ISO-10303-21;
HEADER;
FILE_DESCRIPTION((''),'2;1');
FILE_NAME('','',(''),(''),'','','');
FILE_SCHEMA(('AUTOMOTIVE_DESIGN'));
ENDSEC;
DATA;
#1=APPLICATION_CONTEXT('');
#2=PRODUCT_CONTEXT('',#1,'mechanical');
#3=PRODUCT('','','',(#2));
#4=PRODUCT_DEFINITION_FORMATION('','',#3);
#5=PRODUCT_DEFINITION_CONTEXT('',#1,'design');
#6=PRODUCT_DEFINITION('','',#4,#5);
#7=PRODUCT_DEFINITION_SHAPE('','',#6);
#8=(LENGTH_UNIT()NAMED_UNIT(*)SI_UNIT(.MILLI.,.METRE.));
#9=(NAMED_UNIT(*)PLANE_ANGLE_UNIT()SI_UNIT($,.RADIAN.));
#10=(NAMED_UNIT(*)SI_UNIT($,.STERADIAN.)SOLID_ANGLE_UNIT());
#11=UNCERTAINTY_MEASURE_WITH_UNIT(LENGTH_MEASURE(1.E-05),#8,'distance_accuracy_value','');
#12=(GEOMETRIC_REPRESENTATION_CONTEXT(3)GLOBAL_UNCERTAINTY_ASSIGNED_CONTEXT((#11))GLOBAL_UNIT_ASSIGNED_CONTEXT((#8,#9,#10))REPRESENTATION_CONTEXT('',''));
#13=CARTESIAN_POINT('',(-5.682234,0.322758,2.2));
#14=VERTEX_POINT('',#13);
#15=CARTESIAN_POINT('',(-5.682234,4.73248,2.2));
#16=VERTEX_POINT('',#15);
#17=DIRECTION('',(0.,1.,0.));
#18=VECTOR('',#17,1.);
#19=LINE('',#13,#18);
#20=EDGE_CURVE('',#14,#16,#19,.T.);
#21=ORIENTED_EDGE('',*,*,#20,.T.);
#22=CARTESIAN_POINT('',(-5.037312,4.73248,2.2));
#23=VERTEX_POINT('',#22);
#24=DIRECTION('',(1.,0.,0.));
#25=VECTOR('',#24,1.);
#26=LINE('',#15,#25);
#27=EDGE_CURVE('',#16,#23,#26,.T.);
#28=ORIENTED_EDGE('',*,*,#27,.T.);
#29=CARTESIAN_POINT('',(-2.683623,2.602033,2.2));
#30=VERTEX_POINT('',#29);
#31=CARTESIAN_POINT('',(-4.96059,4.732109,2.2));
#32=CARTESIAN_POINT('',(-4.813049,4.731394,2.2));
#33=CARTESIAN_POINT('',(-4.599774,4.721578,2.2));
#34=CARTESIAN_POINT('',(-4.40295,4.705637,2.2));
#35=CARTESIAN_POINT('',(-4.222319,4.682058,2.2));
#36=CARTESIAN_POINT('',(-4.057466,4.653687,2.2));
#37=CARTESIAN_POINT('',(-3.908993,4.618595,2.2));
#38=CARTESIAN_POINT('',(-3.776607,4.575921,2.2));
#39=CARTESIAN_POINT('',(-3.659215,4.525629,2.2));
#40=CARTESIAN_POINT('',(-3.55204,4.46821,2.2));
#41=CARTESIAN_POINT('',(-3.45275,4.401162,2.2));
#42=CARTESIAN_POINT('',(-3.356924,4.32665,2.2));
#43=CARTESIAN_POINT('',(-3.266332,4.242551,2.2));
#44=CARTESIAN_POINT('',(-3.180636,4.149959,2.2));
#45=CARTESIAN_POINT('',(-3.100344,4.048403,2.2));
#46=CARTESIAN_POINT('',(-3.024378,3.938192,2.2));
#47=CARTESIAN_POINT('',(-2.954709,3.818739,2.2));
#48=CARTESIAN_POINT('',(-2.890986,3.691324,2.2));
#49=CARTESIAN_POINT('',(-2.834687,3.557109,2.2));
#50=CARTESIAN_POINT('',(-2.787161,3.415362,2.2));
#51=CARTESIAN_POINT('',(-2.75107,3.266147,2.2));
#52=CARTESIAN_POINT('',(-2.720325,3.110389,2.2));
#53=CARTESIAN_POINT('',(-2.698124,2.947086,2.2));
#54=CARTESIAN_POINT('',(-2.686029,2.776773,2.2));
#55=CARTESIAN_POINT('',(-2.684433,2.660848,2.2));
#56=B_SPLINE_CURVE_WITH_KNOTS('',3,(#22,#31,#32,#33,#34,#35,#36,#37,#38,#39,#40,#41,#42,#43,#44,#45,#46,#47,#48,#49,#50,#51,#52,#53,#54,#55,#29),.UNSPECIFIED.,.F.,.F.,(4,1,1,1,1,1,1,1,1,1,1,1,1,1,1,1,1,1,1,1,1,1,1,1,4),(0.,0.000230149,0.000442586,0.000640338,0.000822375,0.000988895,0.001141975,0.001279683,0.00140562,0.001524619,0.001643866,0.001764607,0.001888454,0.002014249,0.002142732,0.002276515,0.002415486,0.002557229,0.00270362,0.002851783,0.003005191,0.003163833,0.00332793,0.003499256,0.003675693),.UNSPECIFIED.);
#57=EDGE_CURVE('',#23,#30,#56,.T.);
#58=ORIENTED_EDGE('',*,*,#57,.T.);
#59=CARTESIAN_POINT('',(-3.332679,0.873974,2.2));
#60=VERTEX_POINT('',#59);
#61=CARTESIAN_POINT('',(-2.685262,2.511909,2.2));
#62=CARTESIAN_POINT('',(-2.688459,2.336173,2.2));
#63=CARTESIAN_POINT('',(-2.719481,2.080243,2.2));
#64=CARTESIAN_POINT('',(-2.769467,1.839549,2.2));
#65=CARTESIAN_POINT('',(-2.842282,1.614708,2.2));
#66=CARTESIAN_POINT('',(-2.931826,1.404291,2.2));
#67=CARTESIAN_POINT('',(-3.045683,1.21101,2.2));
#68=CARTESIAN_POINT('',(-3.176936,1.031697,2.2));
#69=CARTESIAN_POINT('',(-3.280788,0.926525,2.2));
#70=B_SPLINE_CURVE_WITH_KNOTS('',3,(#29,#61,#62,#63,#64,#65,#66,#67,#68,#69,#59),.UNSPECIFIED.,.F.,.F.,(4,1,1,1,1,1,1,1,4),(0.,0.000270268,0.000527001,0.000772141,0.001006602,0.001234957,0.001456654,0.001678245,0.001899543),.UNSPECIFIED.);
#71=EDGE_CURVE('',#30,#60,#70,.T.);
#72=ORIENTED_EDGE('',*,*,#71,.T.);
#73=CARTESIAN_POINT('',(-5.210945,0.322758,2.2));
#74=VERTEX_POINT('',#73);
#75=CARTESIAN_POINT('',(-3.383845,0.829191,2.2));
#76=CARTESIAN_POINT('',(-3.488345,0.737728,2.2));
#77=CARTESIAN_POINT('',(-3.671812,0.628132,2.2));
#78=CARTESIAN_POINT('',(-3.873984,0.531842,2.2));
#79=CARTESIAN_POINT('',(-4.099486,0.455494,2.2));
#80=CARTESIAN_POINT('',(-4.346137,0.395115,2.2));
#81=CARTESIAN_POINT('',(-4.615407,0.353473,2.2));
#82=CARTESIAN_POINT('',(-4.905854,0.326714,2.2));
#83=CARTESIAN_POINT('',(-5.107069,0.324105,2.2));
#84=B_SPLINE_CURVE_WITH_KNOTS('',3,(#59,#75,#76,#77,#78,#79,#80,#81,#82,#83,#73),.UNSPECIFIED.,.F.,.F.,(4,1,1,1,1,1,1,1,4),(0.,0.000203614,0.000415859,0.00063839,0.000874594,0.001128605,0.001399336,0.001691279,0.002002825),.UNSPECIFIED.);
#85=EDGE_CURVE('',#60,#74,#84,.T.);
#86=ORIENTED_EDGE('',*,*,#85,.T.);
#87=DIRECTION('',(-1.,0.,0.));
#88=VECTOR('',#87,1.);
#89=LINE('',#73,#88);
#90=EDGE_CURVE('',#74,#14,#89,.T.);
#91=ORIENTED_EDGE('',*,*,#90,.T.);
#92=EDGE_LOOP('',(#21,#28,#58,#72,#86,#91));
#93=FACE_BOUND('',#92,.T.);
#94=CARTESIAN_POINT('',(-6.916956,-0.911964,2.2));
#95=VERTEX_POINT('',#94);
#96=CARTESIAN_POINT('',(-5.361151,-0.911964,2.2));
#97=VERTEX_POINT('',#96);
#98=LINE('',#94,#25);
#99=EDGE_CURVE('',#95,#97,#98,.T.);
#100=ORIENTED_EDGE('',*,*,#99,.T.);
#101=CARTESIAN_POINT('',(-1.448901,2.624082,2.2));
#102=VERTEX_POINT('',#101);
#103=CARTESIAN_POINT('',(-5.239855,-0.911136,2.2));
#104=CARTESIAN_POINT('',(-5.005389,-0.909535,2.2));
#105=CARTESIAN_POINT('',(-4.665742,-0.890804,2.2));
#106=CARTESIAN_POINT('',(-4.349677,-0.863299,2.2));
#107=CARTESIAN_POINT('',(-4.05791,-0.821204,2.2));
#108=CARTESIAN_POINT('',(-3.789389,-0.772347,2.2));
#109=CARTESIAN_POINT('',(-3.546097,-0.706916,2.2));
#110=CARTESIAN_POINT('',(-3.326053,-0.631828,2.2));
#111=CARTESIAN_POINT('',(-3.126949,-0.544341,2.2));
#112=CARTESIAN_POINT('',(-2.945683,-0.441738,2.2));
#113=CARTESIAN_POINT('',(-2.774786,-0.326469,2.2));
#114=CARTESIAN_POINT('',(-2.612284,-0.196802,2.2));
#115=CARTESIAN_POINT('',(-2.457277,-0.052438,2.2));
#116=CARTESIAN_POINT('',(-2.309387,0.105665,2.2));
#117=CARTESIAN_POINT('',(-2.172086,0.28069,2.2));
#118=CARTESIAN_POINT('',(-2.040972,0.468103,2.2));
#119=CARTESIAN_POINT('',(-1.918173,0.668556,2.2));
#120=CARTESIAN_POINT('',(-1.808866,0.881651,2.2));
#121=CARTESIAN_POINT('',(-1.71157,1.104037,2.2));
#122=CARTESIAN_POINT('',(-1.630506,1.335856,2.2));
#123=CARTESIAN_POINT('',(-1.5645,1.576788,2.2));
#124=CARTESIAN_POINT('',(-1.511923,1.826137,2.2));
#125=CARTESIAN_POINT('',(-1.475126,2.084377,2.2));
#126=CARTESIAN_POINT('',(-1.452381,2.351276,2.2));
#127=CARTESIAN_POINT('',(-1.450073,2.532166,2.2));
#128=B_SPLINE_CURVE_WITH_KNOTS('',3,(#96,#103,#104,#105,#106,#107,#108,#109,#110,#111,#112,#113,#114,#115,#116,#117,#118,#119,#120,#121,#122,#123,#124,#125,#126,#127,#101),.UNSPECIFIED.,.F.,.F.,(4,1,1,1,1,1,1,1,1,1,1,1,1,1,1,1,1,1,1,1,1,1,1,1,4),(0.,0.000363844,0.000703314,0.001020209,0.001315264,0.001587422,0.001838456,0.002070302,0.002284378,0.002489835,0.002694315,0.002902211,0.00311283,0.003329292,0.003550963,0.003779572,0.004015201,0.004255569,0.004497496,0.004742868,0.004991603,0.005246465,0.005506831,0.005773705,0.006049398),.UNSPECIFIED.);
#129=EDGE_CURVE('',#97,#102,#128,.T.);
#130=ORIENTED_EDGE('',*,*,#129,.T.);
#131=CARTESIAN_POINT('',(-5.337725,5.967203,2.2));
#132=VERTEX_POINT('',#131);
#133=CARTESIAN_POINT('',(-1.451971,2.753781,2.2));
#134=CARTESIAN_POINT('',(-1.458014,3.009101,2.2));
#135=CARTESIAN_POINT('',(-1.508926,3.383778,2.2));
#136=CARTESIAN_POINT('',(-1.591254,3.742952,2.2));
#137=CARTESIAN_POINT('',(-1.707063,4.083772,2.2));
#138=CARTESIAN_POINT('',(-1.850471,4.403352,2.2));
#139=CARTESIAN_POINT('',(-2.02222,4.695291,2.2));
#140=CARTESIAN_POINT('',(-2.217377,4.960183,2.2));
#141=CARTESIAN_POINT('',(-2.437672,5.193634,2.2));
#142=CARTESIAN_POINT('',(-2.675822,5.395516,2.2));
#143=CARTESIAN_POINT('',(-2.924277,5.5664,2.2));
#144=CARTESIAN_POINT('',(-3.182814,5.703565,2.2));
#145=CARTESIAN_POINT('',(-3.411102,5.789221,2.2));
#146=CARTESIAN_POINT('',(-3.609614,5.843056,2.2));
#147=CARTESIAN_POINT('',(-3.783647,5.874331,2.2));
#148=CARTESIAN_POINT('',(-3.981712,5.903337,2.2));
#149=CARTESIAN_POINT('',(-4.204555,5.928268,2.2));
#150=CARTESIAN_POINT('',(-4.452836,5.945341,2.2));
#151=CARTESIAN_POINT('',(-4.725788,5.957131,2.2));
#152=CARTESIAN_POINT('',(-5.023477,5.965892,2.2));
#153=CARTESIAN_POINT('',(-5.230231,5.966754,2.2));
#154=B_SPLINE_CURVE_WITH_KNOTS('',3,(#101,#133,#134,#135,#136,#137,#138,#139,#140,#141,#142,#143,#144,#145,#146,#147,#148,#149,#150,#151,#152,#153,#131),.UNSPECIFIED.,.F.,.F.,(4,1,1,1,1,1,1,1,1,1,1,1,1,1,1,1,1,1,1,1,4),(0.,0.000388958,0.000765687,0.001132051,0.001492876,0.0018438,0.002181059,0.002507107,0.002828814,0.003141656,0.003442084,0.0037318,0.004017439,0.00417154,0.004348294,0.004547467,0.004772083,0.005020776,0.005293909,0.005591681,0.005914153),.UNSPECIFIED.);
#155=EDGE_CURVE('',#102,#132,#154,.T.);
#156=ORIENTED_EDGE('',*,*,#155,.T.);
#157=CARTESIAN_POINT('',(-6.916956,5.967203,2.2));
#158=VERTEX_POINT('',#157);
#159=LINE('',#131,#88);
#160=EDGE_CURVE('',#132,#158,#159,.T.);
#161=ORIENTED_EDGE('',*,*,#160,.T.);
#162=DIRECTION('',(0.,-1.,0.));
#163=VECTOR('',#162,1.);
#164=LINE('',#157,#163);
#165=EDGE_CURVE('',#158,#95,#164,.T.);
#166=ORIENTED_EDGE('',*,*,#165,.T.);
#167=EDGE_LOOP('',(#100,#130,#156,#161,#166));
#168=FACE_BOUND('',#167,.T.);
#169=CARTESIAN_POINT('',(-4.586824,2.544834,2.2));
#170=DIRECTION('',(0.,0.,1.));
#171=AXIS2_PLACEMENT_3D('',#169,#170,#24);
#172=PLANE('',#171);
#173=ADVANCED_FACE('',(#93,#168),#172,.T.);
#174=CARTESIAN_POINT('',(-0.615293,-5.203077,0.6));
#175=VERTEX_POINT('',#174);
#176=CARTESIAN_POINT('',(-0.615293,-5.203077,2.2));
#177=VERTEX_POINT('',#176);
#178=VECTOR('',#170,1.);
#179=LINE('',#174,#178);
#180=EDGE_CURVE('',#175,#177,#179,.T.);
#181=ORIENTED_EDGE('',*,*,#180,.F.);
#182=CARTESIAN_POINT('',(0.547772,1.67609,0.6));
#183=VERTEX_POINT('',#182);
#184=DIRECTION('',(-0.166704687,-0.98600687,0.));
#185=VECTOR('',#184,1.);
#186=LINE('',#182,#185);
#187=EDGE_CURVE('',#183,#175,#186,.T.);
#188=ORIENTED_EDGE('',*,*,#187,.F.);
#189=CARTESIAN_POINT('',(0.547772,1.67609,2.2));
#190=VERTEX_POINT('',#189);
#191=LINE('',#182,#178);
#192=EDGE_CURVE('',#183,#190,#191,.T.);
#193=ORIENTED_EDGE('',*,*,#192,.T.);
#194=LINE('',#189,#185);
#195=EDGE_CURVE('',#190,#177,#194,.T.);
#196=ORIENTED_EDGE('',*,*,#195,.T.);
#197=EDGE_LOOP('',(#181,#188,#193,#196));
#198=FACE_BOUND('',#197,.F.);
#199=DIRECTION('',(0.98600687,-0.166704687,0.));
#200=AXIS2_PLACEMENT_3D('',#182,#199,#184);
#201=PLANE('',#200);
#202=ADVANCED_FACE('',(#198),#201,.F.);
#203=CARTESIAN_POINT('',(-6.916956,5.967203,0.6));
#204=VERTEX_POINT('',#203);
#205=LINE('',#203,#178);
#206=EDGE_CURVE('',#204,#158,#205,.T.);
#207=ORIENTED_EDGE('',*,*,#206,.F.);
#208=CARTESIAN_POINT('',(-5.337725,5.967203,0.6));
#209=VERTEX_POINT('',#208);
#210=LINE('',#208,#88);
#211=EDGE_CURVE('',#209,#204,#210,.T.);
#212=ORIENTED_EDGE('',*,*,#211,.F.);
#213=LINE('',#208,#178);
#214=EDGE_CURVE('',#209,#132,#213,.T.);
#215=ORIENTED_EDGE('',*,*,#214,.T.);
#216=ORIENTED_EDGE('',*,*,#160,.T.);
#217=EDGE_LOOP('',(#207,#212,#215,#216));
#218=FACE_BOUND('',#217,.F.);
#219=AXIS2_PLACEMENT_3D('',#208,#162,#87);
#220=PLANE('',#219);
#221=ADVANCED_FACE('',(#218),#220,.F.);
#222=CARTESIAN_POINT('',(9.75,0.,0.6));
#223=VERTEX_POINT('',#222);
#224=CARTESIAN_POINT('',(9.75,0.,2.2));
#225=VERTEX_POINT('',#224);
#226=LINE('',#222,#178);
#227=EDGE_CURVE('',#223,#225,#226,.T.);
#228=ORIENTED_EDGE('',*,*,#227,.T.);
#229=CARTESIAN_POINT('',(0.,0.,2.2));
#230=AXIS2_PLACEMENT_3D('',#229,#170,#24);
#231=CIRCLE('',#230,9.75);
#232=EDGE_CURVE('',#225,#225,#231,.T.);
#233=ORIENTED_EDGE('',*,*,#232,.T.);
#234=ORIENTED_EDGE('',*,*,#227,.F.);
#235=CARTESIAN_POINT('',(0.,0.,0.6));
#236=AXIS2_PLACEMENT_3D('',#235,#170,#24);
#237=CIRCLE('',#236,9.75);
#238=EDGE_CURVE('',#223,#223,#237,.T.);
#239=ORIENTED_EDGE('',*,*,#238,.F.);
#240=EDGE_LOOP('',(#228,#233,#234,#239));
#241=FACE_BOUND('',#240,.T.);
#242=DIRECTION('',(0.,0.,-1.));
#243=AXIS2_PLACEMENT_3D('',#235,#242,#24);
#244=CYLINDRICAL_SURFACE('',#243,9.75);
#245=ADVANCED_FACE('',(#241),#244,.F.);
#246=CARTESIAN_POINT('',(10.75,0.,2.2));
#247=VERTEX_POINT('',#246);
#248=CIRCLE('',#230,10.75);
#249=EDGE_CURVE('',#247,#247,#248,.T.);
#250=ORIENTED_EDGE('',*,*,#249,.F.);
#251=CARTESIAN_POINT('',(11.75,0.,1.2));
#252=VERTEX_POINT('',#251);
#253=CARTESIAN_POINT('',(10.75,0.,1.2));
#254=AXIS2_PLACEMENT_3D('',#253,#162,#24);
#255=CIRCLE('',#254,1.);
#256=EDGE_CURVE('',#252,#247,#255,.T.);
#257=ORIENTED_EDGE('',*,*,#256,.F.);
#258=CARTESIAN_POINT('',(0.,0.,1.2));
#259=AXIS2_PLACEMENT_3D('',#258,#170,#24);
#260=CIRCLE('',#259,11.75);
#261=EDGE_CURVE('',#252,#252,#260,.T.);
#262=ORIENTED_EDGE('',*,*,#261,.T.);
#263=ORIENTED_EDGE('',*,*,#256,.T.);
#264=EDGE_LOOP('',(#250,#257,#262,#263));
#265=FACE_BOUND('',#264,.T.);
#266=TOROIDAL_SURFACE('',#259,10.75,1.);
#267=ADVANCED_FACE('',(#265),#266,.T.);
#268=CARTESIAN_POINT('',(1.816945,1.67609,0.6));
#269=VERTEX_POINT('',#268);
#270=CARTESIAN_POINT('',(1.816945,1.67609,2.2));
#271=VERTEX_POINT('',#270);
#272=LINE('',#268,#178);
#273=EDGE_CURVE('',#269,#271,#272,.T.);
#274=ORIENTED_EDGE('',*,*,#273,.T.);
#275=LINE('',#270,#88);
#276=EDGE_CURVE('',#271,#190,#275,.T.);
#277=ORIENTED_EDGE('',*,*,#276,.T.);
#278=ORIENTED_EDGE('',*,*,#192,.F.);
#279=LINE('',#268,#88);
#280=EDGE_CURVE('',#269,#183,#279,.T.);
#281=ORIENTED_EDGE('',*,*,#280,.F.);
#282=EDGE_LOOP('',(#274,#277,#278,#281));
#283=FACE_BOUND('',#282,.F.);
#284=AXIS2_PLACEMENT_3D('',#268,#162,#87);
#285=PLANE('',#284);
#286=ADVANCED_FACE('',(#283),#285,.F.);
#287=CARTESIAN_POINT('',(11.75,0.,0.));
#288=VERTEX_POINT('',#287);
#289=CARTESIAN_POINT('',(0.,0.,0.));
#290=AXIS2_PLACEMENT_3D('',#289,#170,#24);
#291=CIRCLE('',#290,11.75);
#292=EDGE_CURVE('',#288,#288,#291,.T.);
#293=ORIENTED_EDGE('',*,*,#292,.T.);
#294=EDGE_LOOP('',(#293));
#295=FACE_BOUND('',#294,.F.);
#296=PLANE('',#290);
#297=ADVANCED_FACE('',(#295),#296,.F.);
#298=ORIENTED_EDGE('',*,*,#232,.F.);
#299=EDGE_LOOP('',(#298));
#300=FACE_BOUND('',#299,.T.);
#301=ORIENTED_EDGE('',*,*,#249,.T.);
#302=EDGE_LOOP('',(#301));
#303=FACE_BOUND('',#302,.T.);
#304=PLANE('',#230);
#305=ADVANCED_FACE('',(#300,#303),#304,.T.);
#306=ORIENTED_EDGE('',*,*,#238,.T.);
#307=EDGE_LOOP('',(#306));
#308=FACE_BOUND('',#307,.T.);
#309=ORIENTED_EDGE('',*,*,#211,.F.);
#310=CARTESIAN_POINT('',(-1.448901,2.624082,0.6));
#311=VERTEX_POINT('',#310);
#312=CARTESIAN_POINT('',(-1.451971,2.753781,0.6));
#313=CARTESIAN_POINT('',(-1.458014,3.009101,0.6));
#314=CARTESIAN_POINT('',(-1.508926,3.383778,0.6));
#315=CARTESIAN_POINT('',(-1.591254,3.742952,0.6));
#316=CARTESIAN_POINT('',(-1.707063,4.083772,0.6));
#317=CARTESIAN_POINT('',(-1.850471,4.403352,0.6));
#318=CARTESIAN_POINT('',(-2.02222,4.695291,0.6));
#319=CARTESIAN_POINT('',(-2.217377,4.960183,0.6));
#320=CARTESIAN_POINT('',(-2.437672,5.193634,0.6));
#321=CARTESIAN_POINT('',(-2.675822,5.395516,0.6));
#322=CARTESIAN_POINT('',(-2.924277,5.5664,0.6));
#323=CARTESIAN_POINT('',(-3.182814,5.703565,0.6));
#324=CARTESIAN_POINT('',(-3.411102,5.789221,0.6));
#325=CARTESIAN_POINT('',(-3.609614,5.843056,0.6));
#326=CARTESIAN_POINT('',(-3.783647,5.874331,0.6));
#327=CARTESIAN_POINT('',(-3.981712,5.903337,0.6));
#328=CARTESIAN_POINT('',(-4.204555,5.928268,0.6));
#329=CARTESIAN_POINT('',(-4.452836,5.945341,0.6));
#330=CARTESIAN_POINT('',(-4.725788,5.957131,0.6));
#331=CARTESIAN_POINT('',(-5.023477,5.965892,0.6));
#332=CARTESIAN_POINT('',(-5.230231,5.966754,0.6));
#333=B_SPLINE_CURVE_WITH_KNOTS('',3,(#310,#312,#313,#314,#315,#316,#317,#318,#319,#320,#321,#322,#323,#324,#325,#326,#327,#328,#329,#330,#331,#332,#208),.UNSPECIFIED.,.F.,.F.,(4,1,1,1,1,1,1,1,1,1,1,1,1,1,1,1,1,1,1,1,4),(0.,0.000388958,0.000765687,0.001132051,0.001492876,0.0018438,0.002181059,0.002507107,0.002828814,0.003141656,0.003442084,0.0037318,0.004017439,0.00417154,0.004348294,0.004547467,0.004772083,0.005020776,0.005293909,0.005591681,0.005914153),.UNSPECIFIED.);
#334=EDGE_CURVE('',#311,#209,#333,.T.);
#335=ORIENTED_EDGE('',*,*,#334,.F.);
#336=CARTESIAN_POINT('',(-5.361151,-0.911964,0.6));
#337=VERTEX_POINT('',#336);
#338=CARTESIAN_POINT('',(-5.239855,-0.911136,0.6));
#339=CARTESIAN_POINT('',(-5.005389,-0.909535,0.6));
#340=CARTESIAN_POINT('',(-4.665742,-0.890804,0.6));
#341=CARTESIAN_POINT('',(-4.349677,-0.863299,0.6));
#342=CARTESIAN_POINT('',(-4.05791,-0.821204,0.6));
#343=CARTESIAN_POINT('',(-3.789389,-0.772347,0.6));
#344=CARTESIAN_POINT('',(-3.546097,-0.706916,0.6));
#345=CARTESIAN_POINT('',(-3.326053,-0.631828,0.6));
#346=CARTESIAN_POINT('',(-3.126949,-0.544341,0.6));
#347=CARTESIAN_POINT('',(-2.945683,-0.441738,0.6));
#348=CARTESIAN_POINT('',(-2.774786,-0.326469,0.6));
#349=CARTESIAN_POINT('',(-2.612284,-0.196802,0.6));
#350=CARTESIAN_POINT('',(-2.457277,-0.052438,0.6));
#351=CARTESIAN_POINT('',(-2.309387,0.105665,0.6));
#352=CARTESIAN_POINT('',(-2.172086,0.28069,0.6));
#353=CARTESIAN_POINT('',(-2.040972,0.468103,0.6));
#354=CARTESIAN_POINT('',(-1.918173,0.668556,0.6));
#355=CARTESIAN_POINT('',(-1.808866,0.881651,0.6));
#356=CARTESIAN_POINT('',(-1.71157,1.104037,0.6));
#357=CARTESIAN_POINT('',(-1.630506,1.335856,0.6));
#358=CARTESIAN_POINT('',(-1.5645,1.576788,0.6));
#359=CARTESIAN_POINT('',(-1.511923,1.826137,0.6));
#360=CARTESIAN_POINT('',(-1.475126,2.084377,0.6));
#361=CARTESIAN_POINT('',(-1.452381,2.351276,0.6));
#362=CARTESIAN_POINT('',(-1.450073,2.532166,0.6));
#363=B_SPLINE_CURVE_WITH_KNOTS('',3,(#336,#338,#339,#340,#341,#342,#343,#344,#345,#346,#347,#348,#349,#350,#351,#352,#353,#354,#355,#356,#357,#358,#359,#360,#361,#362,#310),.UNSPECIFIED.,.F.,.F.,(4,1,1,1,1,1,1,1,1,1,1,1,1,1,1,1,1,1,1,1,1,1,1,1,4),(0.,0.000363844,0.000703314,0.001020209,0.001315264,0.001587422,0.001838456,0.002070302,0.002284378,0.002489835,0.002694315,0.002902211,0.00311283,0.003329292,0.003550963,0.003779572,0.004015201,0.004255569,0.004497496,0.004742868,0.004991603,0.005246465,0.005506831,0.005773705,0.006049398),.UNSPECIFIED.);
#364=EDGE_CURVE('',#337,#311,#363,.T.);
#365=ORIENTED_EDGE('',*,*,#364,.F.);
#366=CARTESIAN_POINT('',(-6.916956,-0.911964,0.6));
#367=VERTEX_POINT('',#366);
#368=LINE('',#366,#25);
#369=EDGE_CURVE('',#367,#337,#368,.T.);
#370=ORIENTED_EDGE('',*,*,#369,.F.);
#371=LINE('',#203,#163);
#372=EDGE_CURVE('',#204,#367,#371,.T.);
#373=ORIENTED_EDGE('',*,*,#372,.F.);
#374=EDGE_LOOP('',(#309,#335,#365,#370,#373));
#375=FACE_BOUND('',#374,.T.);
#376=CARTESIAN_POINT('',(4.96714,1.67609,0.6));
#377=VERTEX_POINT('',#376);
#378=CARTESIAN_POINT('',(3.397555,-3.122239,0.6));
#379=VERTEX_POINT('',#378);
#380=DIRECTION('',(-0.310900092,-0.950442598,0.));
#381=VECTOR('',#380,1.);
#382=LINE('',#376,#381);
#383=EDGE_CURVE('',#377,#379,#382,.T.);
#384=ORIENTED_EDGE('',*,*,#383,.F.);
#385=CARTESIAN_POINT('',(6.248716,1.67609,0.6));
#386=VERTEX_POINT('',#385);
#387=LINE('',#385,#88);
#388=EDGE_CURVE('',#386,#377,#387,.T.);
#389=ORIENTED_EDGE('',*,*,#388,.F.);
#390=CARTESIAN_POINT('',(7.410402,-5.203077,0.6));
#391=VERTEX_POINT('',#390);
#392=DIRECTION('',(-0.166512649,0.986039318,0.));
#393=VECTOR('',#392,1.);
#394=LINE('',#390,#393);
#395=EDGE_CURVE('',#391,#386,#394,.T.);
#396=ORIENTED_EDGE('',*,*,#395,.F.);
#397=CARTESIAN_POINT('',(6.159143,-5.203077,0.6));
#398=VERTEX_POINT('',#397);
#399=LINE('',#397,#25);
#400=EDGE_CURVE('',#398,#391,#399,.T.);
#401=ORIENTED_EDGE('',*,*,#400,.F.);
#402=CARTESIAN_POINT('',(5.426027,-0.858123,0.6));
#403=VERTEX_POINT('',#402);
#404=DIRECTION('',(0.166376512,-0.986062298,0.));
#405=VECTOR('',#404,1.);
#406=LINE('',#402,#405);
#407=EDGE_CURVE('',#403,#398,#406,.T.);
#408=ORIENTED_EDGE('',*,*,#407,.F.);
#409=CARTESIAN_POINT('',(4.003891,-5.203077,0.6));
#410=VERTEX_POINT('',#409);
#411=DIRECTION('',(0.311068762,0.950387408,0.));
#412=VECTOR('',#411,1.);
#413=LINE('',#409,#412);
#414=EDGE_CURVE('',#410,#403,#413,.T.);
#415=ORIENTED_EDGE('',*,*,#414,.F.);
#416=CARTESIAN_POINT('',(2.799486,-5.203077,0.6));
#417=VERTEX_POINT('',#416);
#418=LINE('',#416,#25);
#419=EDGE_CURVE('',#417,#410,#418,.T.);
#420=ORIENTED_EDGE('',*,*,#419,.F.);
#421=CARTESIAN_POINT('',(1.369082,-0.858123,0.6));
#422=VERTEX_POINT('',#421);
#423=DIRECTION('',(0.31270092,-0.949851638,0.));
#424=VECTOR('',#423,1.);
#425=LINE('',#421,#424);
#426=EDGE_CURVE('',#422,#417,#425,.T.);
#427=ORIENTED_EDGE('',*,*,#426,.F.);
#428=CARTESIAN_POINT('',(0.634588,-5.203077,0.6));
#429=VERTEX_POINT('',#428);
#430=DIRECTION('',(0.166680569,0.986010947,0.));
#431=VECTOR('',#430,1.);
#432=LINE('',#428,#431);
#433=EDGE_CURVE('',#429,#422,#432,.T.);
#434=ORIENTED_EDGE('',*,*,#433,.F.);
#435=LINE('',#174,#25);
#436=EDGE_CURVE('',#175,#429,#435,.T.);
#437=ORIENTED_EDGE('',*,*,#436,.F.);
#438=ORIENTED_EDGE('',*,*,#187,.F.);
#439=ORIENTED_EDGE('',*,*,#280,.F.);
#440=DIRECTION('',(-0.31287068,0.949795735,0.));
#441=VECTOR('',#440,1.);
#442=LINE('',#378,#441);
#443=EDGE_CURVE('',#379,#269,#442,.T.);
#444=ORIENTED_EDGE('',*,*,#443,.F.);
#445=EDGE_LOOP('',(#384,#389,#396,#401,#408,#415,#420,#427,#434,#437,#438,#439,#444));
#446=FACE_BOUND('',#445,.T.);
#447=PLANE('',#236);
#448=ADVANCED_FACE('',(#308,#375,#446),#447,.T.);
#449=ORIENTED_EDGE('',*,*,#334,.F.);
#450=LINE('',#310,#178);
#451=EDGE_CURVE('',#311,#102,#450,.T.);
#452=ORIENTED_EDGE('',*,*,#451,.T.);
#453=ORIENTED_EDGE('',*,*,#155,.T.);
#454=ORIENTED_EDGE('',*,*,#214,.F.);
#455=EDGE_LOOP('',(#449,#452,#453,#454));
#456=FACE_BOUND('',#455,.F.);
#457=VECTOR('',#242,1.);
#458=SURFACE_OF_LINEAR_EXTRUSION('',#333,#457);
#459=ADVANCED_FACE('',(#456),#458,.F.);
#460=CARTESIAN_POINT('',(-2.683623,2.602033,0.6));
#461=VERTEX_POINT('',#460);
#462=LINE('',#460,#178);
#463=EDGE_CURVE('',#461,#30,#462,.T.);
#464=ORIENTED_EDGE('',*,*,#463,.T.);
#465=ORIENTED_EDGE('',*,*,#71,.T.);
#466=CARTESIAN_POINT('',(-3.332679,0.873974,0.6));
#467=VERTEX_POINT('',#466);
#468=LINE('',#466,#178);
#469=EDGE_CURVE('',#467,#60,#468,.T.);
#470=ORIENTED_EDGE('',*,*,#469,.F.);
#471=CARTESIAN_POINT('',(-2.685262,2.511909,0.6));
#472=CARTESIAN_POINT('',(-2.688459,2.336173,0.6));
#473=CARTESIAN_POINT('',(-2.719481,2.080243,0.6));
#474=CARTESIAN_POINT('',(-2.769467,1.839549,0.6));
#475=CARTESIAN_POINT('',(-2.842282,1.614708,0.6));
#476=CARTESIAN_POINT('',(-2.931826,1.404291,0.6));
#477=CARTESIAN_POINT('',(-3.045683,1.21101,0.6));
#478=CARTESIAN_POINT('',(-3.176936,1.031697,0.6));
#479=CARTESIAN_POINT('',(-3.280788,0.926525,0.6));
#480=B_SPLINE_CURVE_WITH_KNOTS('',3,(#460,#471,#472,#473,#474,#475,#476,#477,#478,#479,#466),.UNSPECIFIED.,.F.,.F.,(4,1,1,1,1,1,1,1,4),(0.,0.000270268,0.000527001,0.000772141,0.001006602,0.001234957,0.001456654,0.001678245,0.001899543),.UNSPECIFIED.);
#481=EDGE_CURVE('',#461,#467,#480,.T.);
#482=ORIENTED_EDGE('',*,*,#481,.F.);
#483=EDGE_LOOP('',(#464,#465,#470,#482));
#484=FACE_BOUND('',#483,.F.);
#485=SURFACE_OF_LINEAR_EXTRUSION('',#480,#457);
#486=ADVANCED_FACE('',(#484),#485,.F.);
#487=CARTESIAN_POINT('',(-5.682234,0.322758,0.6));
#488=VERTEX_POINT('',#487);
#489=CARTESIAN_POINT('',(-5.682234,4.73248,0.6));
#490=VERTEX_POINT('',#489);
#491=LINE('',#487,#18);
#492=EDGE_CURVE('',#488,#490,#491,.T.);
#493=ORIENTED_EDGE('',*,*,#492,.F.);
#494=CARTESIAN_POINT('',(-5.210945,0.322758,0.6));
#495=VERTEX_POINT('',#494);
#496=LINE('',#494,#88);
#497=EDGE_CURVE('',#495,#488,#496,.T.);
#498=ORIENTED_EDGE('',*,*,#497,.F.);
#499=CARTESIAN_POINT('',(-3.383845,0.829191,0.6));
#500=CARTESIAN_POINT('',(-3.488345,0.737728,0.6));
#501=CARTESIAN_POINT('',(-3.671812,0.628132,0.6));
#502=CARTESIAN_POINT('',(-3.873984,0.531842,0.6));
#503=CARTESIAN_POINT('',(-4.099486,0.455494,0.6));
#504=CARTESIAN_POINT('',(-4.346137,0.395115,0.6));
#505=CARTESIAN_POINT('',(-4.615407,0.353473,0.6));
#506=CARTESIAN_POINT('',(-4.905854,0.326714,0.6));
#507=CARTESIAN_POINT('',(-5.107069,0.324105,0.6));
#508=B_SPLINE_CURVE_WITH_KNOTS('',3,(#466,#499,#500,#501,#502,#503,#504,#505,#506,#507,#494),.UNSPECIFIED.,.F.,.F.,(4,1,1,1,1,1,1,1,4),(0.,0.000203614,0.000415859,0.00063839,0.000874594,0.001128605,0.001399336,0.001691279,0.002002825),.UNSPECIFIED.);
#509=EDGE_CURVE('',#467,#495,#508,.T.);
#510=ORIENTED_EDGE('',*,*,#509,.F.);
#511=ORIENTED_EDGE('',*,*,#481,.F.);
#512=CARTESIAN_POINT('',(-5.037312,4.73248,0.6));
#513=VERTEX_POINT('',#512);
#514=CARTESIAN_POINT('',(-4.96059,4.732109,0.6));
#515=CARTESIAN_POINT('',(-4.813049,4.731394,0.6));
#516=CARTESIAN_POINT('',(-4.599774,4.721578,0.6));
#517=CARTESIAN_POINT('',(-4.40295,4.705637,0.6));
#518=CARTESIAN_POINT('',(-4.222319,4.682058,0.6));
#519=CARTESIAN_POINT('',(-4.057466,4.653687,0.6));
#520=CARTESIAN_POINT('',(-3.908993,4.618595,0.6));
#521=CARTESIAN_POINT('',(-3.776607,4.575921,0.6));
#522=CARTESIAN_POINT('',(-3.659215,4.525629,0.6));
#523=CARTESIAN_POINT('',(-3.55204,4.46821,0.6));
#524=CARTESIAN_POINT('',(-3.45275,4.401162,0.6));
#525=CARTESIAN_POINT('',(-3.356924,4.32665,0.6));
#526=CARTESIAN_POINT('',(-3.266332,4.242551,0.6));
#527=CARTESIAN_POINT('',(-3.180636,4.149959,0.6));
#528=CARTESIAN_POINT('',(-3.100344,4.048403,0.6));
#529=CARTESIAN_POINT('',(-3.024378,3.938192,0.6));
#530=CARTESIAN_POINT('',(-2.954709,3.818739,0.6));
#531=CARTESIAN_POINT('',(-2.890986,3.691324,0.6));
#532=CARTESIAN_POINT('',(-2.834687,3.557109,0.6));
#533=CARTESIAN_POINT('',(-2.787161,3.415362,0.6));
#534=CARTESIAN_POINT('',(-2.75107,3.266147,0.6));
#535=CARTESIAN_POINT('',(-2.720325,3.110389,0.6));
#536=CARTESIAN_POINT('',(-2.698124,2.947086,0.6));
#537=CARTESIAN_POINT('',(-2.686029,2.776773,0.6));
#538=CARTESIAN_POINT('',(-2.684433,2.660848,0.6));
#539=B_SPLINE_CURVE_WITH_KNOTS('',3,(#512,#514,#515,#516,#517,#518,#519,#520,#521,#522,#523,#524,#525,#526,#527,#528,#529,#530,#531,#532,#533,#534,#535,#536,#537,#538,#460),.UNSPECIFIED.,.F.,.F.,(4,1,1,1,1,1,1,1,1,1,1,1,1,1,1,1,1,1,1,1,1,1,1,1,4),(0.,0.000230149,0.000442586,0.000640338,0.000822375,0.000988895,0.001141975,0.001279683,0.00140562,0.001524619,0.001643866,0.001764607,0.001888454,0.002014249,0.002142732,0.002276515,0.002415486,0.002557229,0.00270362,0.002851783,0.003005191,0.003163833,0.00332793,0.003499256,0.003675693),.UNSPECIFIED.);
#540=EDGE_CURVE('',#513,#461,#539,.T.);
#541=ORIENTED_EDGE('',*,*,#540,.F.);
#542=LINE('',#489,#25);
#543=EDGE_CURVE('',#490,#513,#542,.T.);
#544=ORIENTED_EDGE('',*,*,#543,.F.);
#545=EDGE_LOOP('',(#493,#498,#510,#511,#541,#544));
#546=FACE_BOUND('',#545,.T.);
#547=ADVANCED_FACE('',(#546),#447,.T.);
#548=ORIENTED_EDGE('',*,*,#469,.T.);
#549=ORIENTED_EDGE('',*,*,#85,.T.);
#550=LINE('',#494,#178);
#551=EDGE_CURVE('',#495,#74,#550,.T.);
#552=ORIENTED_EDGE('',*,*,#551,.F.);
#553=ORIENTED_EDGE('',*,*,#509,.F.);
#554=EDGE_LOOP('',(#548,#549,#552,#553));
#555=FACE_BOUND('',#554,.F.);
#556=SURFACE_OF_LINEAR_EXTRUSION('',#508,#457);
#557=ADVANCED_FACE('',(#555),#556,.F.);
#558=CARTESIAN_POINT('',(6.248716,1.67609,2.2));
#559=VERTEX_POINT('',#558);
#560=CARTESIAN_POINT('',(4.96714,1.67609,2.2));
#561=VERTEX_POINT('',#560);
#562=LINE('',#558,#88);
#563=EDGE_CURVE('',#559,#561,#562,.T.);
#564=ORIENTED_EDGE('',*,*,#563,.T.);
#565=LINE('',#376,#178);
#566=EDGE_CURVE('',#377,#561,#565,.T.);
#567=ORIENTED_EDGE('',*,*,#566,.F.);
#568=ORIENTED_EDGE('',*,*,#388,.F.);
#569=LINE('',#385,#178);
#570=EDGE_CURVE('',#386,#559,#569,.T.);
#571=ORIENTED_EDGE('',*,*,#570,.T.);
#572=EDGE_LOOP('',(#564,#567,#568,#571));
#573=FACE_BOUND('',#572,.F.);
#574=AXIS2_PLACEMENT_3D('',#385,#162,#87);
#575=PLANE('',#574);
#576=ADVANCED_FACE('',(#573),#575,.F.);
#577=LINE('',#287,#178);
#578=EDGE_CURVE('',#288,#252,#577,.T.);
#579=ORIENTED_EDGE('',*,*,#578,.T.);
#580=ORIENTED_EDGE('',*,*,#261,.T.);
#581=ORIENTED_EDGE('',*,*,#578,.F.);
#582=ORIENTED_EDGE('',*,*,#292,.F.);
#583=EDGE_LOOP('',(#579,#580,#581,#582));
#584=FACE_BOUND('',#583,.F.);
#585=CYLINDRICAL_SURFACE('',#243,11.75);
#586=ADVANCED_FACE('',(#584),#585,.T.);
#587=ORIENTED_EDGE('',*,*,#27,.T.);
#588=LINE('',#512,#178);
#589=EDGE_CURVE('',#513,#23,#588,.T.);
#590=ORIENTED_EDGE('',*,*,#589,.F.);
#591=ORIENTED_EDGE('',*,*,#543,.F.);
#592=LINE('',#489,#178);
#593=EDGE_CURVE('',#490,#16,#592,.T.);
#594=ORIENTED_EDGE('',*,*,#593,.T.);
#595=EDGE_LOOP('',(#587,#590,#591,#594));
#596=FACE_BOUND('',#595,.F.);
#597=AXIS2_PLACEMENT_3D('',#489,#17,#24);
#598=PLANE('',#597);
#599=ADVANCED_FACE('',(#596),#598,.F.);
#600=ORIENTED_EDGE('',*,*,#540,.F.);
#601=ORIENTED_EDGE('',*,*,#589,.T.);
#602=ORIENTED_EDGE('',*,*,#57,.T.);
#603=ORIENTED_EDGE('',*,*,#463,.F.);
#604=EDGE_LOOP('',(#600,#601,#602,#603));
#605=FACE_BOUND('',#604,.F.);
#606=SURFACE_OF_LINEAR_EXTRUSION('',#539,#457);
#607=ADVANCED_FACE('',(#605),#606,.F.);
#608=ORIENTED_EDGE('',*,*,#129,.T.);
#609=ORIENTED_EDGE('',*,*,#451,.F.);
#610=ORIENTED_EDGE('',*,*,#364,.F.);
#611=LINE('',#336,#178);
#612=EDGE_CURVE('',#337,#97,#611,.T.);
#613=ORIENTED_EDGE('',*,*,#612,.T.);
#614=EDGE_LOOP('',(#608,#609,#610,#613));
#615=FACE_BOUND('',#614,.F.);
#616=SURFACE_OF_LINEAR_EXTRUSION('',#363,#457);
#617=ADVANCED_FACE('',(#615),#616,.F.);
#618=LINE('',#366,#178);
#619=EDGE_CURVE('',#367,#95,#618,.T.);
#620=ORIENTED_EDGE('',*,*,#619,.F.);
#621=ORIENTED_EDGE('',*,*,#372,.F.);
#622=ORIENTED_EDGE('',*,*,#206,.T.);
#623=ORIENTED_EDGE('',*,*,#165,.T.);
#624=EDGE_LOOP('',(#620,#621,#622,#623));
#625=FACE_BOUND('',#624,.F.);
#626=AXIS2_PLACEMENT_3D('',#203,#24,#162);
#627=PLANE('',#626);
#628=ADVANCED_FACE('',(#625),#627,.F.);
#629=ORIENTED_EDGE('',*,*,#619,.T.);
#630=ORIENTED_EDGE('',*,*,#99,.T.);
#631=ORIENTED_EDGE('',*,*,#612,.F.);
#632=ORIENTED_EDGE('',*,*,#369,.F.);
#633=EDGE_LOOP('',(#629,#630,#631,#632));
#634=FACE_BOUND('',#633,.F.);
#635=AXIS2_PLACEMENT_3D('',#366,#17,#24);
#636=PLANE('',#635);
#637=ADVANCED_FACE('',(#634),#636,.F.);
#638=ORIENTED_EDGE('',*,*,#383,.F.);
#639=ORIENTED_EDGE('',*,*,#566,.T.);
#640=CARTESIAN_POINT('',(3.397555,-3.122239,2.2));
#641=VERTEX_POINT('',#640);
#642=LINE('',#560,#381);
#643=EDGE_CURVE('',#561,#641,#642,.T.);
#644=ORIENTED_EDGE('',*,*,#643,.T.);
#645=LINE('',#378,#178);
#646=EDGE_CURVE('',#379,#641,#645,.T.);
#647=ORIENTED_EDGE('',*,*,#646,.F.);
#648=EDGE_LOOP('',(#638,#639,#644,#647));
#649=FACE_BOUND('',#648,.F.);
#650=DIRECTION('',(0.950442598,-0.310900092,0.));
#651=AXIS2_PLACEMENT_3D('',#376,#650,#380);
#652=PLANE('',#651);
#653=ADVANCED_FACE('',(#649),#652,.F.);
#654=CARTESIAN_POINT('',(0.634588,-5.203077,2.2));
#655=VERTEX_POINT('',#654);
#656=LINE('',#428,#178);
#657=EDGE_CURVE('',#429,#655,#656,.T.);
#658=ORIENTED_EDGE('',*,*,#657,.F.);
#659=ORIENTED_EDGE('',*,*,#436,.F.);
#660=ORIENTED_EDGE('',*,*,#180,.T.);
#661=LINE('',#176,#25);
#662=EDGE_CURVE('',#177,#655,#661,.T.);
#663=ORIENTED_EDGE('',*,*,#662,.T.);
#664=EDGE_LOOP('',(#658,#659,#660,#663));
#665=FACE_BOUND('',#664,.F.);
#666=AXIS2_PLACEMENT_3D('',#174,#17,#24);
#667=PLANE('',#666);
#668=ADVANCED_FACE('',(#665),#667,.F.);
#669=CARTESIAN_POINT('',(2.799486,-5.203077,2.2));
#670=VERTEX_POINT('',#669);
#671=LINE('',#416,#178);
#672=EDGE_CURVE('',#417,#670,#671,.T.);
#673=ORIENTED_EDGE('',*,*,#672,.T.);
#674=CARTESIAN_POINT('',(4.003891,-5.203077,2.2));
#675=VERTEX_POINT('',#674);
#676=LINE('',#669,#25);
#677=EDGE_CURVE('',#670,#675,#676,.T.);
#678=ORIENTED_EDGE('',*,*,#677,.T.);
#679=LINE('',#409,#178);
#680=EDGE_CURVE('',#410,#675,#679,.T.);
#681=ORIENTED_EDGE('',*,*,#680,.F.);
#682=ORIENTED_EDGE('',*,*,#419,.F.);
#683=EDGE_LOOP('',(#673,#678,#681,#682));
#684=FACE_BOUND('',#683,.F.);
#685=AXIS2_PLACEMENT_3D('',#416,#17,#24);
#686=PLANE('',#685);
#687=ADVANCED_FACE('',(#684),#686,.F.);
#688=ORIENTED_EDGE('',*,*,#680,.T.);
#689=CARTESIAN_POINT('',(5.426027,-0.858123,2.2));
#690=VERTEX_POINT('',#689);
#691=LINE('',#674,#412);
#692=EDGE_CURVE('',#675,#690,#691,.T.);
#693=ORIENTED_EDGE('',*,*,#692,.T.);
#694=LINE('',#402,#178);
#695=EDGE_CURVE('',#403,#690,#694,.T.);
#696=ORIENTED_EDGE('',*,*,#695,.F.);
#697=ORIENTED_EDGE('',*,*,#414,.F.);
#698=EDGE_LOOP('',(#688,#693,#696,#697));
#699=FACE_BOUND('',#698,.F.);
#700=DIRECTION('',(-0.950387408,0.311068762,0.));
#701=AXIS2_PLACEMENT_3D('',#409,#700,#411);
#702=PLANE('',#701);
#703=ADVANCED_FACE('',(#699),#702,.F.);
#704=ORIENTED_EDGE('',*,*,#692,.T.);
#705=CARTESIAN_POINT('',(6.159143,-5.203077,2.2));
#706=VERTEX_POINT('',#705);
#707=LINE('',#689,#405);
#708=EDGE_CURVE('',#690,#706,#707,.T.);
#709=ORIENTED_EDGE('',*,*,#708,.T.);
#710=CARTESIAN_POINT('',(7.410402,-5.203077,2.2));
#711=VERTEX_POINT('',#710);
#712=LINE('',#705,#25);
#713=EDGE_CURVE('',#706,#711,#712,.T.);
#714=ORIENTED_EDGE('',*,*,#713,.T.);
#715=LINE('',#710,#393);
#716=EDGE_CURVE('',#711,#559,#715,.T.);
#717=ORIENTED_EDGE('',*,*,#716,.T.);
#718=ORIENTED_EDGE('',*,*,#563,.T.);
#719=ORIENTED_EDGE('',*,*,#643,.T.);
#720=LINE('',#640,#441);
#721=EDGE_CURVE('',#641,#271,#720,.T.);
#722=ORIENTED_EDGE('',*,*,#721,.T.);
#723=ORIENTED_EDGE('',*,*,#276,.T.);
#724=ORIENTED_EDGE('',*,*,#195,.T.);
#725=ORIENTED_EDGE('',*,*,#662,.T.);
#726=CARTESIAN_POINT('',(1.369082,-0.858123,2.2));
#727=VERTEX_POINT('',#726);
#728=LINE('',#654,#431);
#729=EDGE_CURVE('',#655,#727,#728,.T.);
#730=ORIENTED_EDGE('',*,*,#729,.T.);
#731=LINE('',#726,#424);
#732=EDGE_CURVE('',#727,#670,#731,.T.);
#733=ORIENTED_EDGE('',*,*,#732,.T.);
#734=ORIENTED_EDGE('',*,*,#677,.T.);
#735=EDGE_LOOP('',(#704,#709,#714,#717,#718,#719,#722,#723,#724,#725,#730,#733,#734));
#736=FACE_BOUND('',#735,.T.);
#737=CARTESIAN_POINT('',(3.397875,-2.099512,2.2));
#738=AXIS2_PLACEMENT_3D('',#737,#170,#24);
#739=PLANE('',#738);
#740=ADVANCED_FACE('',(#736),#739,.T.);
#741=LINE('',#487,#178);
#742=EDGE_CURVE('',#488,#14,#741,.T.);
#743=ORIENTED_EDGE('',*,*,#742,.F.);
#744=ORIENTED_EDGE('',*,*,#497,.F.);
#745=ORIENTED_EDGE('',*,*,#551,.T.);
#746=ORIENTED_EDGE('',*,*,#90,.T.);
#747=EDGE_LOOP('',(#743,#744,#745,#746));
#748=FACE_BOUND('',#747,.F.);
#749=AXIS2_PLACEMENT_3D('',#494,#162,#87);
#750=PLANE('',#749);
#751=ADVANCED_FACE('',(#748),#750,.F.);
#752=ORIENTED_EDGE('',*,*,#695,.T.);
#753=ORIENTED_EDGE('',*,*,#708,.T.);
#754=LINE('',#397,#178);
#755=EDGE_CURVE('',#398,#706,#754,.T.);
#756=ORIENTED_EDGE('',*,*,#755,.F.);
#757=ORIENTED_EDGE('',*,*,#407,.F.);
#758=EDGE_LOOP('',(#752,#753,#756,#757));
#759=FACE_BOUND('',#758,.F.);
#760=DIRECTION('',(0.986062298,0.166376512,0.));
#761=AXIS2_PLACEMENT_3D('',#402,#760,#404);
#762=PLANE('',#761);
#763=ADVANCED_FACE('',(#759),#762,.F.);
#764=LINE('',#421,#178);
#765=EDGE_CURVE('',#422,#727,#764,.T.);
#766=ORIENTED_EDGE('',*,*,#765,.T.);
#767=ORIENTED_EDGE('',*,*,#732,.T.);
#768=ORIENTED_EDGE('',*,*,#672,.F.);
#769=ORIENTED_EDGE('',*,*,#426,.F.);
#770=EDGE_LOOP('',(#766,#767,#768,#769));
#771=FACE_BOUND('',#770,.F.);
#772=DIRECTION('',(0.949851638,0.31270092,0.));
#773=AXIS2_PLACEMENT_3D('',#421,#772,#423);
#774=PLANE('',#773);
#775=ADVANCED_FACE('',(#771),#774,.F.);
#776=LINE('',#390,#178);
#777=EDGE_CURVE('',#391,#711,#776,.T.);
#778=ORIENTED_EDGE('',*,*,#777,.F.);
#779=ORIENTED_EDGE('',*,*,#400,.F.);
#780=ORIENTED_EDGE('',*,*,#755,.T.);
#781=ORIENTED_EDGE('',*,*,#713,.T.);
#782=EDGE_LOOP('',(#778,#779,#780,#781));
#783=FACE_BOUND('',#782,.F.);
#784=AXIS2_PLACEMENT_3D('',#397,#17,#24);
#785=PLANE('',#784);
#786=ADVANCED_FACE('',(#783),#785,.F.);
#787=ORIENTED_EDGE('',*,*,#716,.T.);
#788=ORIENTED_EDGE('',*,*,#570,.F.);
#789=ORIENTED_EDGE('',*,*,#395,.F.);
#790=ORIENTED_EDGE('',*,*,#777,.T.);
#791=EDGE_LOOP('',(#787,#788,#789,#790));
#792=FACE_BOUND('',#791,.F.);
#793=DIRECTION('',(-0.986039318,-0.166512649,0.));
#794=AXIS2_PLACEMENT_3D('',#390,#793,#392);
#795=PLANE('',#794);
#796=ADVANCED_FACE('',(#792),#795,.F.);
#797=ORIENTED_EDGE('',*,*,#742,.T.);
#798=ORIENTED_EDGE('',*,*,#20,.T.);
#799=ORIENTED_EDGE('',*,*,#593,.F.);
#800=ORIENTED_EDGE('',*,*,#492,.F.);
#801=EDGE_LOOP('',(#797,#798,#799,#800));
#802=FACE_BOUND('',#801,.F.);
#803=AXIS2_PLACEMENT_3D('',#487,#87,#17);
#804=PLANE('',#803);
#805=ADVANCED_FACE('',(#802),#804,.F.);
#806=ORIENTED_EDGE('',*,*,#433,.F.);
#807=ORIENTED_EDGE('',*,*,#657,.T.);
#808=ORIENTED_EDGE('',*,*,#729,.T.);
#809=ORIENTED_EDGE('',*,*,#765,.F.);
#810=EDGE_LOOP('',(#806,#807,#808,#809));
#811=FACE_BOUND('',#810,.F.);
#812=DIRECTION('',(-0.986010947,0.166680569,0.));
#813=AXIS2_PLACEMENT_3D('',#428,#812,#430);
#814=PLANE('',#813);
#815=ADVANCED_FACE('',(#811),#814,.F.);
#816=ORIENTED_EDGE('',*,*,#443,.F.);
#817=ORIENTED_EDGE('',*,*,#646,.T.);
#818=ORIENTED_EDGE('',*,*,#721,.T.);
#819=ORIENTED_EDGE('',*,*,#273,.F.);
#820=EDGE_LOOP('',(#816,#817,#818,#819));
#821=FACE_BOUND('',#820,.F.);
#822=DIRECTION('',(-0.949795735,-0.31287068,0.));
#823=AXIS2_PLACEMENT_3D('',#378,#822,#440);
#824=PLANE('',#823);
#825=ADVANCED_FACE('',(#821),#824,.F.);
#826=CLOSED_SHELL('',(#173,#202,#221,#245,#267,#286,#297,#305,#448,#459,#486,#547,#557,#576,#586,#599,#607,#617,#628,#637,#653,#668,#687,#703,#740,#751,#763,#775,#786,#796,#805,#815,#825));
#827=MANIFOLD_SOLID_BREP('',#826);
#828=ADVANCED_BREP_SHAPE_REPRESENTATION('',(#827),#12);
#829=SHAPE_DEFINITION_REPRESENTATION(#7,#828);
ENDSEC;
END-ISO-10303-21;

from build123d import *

# Parameters (mm, degrees)
SKETCH1_R           = 11.75
BOSS_EXTRUDE1_DEPTH = 0.6
SKETCH2_R           = 11.75
SKETCH2_R_2         = 9.75
BOSS_EXTRUDE2_DEPTH = 1.6
BOSS_EXTRUDE3_DEPTH = 1.6
FILLET1_R           = 1


with BuildPart() as part:
    # Sketch1 → Boss-Extrude1 (new body)
    with BuildSketch(Plane.XY):
        Circle(SKETCH1_R)
    extrude(amount=BOSS_EXTRUDE1_DEPTH)

    # Sketch2 → Boss-Extrude2 (add)
    with BuildSketch(Plane.XY.offset(0.6)):
        Circle(SKETCH2_R)
        Circle(SKETCH2_R_2, mode=Mode.SUBTRACT)
    extrude(amount=BOSS_EXTRUDE2_DEPTH)

    # Sketch3 → Boss-Extrude3 (add)
    with BuildSketch(Plane.XY.offset(0.6)):
        with BuildLine():
            Line((-6.916956338, -0.911963991), (-5.361151216, -0.911963991))
            add(Edge.make_bspline(
                [(-5.361151216, -0.911963991), (-5.239855358, -0.911135682), (-5.005389093, -0.909534551), (-4.665741882, -0.890804083), (-4.349677023, -0.863299234), (-4.057909505, -0.821204302), (-3.789388655, -0.772346551), (-3.546096572, -0.706915643), (-3.326053246, -0.631828045), (-3.126949332, -0.544340632), (-2.945683277, -0.44173815), (-2.7747857, -0.326468517), (-2.612283679, -0.196802417), (-2.45727666, -0.052438003), (-2.309386888, 0.10566485), (-2.172085953, 0.280689674), (-2.040972084, 0.468103096), (-1.918172617, 0.668555578), (-1.808865755, 0.881651378), (-1.711570392, 1.104036522), (-1.630505782, 1.335855545), (-1.564500099, 1.576788364), (-1.511922924, 1.826137054), (-1.475126432, 2.084376718), (-1.452380824, 2.351276025), (-1.4500733, 2.532166496), (-1.448900782, 2.624082016)],
                knots=[0, 0, 0, 0, 0.000363844, 0.000703314, 0.001020209, 0.001315264, 0.001587422, 0.001838456, 0.002070302, 0.002284378, 0.002489835, 0.002694315, 0.002902211, 0.00311283, 0.003329292, 0.003550963, 0.003779572, 0.004015201, 0.004255569, 0.004497496, 0.004742868, 0.004991603, 0.005246465, 0.005506831, 0.005773705, 0.006049398, 0.006049398, 0.006049398, 0.006049398], degree=3))
            add(Edge.make_bspline(
                [(-1.448900782, 2.624082016), (-1.451970756, 2.753780967), (-1.458014179, 3.009100945), (-1.508926104, 3.383777758), (-1.591254497, 3.742951732), (-1.707062559, 4.083771806), (-1.850470901, 4.403352066), (-2.022220096, 4.695290765), (-2.217376545, 4.960182986), (-2.437672033, 5.19363362), (-2.675821661, 5.395516124), (-2.924276522, 5.566399637), (-3.182814338, 5.703564799), (-3.41110213, 5.789220823), (-3.609613669, 5.843055986), (-3.783646836, 5.874330612), (-3.981711628, 5.903336547), (-4.204554541, 5.928267914), (-4.452836402, 5.945340974), (-4.725788377, 5.957131127), (-5.023476578, 5.965891962), (-5.23023053, 5.966754323), (-5.337724567, 5.967202676)],
                knots=[0, 0, 0, 0, 0.000388958, 0.000765687, 0.001132051, 0.001492876, 0.0018438, 0.002181059, 0.002507107, 0.002828814, 0.003141656, 0.003442084, 0.0037318, 0.004017439, 0.00417154, 0.004348294, 0.004547467, 0.004772083, 0.005020776, 0.005293909, 0.005591681, 0.005914153, 0.005914153, 0.005914153, 0.005914153], degree=3))
            Line((-5.337724567, 5.967202676), (-6.916956338, 5.967202676))
            Line((-6.916956338, 5.967202676), (-6.916956338, -0.911963991))
        make_face()
        with BuildLine():
            Line((-5.682234116, 0.322758231), (-5.682234116, 4.732480453))
            Line((-5.682234116, 4.732480453), (-5.037312241, 4.732480453))
            add(Edge.make_bspline(
                [(-5.037312241, 4.732480453), (-4.960589746, 4.732108932), (-4.813049194, 4.73139448), (-4.599773783, 4.721578003), (-4.402949586, 4.705637209), (-4.222318791, 4.682058374), (-4.05746614, 4.653687), (-3.90899297, 4.61859535), (-3.776606644, 4.575921232), (-3.659215448, 4.525629351), (-3.552039877, 4.468210013), (-3.452750381, 4.401161931), (-3.356923903, 4.32665025), (-3.266331588, 4.24255096), (-3.180635874, 4.149959395), (-3.100343516, 4.048403256), (-3.024378224, 3.938192199), (-2.954709427, 3.818739134), (-2.890985622, 3.691323934), (-2.834687293, 3.557108901), (-2.787161197, 3.415362356), (-2.751069756, 3.266147042), (-2.720324605, 3.110388904), (-2.698124248, 2.947086468), (-2.686029416, 2.77677325), (-2.684432963, 2.66084794), (-2.683623005, 2.602033405)],
                knots=[0, 0, 0, 0, 0.000230149, 0.000442586, 0.000640338, 0.000822375, 0.000988895, 0.001141975, 0.001279683, 0.00140562, 0.001524619, 0.001643866, 0.001764607, 0.001888454, 0.002014249, 0.002142732, 0.002276515, 0.002415486, 0.002557229, 0.00270362, 0.002851783, 0.003005191, 0.003163833, 0.00332793, 0.003499256, 0.003675693, 0.003675693, 0.003675693, 0.003675693], degree=3))
            add(Edge.make_bspline(
                [(-2.683623005, 2.602033405), (-2.685262463, 2.511908699), (-2.688459279, 2.336172506), (-2.719481404, 2.080243078), (-2.769467097, 1.839548826), (-2.842282437, 1.614708069), (-2.931826264, 1.404291395), (-3.045683112, 1.211010286), (-3.176936165, 1.031696657), (-3.280787507, 0.926524812), (-3.332678994, 0.873973509)],
                knots=[0, 0, 0, 0, 0.000270268, 0.000527001, 0.000772141, 0.001006602, 0.001234957, 0.001456654, 0.001678245, 0.001899543, 0.001899543, 0.001899543, 0.001899543], degree=3))
            add(Edge.make_bspline(
                [(-3.332678994, 0.873973509), (-3.383844652, 0.829191175), (-3.488344714, 0.737728328), (-3.671812484, 0.628132448), (-3.873984463, 0.531841725), (-4.099485742, 0.455493921), (-4.346136951, 0.395114822), (-4.615407148, 0.353472834), (-4.905854335, 0.326714134), (-5.107069378, 0.324105116), (-5.210945053, 0.322758231)],
                knots=[0, 0, 0, 0, 0.000203614, 0.000415859, 0.00063839, 0.000874594, 0.001128605, 0.001399336, 0.001691279, 0.002002825, 0.002002825, 0.002002825, 0.002002825], degree=3))
            Line((-5.210945053, 0.322758231), (-5.682234116, 0.322758231))
        make_face(mode=Mode.SUBTRACT)
        Polygon((6.248715571, 1.676089617), (4.96714005, 1.676089617), (3.397554546, -3.122239376), (1.816944737, 1.676089617), (0.54777156, 1.676089617), (-0.615292676, -5.20307705), (0.634587966, -5.20307705), (1.369082324, -0.858122623), (2.79948597, -5.20307705), (4.003891352, -5.20307705), (5.426026769, -0.858122623), (6.159143088, -5.20307705), (7.410401769, -5.20307705), align=None)
    extrude(amount=BOSS_EXTRUDE3_DEPTH)

    # Fillet1
    fillet1_edges = [part.edges().sort_by_distance(p)[0] for p in [
        (-11.75, 0, 2.2),
    ]]
    fillet(fillet1_edges, radius=FILLET1_R)


solid = part.part
